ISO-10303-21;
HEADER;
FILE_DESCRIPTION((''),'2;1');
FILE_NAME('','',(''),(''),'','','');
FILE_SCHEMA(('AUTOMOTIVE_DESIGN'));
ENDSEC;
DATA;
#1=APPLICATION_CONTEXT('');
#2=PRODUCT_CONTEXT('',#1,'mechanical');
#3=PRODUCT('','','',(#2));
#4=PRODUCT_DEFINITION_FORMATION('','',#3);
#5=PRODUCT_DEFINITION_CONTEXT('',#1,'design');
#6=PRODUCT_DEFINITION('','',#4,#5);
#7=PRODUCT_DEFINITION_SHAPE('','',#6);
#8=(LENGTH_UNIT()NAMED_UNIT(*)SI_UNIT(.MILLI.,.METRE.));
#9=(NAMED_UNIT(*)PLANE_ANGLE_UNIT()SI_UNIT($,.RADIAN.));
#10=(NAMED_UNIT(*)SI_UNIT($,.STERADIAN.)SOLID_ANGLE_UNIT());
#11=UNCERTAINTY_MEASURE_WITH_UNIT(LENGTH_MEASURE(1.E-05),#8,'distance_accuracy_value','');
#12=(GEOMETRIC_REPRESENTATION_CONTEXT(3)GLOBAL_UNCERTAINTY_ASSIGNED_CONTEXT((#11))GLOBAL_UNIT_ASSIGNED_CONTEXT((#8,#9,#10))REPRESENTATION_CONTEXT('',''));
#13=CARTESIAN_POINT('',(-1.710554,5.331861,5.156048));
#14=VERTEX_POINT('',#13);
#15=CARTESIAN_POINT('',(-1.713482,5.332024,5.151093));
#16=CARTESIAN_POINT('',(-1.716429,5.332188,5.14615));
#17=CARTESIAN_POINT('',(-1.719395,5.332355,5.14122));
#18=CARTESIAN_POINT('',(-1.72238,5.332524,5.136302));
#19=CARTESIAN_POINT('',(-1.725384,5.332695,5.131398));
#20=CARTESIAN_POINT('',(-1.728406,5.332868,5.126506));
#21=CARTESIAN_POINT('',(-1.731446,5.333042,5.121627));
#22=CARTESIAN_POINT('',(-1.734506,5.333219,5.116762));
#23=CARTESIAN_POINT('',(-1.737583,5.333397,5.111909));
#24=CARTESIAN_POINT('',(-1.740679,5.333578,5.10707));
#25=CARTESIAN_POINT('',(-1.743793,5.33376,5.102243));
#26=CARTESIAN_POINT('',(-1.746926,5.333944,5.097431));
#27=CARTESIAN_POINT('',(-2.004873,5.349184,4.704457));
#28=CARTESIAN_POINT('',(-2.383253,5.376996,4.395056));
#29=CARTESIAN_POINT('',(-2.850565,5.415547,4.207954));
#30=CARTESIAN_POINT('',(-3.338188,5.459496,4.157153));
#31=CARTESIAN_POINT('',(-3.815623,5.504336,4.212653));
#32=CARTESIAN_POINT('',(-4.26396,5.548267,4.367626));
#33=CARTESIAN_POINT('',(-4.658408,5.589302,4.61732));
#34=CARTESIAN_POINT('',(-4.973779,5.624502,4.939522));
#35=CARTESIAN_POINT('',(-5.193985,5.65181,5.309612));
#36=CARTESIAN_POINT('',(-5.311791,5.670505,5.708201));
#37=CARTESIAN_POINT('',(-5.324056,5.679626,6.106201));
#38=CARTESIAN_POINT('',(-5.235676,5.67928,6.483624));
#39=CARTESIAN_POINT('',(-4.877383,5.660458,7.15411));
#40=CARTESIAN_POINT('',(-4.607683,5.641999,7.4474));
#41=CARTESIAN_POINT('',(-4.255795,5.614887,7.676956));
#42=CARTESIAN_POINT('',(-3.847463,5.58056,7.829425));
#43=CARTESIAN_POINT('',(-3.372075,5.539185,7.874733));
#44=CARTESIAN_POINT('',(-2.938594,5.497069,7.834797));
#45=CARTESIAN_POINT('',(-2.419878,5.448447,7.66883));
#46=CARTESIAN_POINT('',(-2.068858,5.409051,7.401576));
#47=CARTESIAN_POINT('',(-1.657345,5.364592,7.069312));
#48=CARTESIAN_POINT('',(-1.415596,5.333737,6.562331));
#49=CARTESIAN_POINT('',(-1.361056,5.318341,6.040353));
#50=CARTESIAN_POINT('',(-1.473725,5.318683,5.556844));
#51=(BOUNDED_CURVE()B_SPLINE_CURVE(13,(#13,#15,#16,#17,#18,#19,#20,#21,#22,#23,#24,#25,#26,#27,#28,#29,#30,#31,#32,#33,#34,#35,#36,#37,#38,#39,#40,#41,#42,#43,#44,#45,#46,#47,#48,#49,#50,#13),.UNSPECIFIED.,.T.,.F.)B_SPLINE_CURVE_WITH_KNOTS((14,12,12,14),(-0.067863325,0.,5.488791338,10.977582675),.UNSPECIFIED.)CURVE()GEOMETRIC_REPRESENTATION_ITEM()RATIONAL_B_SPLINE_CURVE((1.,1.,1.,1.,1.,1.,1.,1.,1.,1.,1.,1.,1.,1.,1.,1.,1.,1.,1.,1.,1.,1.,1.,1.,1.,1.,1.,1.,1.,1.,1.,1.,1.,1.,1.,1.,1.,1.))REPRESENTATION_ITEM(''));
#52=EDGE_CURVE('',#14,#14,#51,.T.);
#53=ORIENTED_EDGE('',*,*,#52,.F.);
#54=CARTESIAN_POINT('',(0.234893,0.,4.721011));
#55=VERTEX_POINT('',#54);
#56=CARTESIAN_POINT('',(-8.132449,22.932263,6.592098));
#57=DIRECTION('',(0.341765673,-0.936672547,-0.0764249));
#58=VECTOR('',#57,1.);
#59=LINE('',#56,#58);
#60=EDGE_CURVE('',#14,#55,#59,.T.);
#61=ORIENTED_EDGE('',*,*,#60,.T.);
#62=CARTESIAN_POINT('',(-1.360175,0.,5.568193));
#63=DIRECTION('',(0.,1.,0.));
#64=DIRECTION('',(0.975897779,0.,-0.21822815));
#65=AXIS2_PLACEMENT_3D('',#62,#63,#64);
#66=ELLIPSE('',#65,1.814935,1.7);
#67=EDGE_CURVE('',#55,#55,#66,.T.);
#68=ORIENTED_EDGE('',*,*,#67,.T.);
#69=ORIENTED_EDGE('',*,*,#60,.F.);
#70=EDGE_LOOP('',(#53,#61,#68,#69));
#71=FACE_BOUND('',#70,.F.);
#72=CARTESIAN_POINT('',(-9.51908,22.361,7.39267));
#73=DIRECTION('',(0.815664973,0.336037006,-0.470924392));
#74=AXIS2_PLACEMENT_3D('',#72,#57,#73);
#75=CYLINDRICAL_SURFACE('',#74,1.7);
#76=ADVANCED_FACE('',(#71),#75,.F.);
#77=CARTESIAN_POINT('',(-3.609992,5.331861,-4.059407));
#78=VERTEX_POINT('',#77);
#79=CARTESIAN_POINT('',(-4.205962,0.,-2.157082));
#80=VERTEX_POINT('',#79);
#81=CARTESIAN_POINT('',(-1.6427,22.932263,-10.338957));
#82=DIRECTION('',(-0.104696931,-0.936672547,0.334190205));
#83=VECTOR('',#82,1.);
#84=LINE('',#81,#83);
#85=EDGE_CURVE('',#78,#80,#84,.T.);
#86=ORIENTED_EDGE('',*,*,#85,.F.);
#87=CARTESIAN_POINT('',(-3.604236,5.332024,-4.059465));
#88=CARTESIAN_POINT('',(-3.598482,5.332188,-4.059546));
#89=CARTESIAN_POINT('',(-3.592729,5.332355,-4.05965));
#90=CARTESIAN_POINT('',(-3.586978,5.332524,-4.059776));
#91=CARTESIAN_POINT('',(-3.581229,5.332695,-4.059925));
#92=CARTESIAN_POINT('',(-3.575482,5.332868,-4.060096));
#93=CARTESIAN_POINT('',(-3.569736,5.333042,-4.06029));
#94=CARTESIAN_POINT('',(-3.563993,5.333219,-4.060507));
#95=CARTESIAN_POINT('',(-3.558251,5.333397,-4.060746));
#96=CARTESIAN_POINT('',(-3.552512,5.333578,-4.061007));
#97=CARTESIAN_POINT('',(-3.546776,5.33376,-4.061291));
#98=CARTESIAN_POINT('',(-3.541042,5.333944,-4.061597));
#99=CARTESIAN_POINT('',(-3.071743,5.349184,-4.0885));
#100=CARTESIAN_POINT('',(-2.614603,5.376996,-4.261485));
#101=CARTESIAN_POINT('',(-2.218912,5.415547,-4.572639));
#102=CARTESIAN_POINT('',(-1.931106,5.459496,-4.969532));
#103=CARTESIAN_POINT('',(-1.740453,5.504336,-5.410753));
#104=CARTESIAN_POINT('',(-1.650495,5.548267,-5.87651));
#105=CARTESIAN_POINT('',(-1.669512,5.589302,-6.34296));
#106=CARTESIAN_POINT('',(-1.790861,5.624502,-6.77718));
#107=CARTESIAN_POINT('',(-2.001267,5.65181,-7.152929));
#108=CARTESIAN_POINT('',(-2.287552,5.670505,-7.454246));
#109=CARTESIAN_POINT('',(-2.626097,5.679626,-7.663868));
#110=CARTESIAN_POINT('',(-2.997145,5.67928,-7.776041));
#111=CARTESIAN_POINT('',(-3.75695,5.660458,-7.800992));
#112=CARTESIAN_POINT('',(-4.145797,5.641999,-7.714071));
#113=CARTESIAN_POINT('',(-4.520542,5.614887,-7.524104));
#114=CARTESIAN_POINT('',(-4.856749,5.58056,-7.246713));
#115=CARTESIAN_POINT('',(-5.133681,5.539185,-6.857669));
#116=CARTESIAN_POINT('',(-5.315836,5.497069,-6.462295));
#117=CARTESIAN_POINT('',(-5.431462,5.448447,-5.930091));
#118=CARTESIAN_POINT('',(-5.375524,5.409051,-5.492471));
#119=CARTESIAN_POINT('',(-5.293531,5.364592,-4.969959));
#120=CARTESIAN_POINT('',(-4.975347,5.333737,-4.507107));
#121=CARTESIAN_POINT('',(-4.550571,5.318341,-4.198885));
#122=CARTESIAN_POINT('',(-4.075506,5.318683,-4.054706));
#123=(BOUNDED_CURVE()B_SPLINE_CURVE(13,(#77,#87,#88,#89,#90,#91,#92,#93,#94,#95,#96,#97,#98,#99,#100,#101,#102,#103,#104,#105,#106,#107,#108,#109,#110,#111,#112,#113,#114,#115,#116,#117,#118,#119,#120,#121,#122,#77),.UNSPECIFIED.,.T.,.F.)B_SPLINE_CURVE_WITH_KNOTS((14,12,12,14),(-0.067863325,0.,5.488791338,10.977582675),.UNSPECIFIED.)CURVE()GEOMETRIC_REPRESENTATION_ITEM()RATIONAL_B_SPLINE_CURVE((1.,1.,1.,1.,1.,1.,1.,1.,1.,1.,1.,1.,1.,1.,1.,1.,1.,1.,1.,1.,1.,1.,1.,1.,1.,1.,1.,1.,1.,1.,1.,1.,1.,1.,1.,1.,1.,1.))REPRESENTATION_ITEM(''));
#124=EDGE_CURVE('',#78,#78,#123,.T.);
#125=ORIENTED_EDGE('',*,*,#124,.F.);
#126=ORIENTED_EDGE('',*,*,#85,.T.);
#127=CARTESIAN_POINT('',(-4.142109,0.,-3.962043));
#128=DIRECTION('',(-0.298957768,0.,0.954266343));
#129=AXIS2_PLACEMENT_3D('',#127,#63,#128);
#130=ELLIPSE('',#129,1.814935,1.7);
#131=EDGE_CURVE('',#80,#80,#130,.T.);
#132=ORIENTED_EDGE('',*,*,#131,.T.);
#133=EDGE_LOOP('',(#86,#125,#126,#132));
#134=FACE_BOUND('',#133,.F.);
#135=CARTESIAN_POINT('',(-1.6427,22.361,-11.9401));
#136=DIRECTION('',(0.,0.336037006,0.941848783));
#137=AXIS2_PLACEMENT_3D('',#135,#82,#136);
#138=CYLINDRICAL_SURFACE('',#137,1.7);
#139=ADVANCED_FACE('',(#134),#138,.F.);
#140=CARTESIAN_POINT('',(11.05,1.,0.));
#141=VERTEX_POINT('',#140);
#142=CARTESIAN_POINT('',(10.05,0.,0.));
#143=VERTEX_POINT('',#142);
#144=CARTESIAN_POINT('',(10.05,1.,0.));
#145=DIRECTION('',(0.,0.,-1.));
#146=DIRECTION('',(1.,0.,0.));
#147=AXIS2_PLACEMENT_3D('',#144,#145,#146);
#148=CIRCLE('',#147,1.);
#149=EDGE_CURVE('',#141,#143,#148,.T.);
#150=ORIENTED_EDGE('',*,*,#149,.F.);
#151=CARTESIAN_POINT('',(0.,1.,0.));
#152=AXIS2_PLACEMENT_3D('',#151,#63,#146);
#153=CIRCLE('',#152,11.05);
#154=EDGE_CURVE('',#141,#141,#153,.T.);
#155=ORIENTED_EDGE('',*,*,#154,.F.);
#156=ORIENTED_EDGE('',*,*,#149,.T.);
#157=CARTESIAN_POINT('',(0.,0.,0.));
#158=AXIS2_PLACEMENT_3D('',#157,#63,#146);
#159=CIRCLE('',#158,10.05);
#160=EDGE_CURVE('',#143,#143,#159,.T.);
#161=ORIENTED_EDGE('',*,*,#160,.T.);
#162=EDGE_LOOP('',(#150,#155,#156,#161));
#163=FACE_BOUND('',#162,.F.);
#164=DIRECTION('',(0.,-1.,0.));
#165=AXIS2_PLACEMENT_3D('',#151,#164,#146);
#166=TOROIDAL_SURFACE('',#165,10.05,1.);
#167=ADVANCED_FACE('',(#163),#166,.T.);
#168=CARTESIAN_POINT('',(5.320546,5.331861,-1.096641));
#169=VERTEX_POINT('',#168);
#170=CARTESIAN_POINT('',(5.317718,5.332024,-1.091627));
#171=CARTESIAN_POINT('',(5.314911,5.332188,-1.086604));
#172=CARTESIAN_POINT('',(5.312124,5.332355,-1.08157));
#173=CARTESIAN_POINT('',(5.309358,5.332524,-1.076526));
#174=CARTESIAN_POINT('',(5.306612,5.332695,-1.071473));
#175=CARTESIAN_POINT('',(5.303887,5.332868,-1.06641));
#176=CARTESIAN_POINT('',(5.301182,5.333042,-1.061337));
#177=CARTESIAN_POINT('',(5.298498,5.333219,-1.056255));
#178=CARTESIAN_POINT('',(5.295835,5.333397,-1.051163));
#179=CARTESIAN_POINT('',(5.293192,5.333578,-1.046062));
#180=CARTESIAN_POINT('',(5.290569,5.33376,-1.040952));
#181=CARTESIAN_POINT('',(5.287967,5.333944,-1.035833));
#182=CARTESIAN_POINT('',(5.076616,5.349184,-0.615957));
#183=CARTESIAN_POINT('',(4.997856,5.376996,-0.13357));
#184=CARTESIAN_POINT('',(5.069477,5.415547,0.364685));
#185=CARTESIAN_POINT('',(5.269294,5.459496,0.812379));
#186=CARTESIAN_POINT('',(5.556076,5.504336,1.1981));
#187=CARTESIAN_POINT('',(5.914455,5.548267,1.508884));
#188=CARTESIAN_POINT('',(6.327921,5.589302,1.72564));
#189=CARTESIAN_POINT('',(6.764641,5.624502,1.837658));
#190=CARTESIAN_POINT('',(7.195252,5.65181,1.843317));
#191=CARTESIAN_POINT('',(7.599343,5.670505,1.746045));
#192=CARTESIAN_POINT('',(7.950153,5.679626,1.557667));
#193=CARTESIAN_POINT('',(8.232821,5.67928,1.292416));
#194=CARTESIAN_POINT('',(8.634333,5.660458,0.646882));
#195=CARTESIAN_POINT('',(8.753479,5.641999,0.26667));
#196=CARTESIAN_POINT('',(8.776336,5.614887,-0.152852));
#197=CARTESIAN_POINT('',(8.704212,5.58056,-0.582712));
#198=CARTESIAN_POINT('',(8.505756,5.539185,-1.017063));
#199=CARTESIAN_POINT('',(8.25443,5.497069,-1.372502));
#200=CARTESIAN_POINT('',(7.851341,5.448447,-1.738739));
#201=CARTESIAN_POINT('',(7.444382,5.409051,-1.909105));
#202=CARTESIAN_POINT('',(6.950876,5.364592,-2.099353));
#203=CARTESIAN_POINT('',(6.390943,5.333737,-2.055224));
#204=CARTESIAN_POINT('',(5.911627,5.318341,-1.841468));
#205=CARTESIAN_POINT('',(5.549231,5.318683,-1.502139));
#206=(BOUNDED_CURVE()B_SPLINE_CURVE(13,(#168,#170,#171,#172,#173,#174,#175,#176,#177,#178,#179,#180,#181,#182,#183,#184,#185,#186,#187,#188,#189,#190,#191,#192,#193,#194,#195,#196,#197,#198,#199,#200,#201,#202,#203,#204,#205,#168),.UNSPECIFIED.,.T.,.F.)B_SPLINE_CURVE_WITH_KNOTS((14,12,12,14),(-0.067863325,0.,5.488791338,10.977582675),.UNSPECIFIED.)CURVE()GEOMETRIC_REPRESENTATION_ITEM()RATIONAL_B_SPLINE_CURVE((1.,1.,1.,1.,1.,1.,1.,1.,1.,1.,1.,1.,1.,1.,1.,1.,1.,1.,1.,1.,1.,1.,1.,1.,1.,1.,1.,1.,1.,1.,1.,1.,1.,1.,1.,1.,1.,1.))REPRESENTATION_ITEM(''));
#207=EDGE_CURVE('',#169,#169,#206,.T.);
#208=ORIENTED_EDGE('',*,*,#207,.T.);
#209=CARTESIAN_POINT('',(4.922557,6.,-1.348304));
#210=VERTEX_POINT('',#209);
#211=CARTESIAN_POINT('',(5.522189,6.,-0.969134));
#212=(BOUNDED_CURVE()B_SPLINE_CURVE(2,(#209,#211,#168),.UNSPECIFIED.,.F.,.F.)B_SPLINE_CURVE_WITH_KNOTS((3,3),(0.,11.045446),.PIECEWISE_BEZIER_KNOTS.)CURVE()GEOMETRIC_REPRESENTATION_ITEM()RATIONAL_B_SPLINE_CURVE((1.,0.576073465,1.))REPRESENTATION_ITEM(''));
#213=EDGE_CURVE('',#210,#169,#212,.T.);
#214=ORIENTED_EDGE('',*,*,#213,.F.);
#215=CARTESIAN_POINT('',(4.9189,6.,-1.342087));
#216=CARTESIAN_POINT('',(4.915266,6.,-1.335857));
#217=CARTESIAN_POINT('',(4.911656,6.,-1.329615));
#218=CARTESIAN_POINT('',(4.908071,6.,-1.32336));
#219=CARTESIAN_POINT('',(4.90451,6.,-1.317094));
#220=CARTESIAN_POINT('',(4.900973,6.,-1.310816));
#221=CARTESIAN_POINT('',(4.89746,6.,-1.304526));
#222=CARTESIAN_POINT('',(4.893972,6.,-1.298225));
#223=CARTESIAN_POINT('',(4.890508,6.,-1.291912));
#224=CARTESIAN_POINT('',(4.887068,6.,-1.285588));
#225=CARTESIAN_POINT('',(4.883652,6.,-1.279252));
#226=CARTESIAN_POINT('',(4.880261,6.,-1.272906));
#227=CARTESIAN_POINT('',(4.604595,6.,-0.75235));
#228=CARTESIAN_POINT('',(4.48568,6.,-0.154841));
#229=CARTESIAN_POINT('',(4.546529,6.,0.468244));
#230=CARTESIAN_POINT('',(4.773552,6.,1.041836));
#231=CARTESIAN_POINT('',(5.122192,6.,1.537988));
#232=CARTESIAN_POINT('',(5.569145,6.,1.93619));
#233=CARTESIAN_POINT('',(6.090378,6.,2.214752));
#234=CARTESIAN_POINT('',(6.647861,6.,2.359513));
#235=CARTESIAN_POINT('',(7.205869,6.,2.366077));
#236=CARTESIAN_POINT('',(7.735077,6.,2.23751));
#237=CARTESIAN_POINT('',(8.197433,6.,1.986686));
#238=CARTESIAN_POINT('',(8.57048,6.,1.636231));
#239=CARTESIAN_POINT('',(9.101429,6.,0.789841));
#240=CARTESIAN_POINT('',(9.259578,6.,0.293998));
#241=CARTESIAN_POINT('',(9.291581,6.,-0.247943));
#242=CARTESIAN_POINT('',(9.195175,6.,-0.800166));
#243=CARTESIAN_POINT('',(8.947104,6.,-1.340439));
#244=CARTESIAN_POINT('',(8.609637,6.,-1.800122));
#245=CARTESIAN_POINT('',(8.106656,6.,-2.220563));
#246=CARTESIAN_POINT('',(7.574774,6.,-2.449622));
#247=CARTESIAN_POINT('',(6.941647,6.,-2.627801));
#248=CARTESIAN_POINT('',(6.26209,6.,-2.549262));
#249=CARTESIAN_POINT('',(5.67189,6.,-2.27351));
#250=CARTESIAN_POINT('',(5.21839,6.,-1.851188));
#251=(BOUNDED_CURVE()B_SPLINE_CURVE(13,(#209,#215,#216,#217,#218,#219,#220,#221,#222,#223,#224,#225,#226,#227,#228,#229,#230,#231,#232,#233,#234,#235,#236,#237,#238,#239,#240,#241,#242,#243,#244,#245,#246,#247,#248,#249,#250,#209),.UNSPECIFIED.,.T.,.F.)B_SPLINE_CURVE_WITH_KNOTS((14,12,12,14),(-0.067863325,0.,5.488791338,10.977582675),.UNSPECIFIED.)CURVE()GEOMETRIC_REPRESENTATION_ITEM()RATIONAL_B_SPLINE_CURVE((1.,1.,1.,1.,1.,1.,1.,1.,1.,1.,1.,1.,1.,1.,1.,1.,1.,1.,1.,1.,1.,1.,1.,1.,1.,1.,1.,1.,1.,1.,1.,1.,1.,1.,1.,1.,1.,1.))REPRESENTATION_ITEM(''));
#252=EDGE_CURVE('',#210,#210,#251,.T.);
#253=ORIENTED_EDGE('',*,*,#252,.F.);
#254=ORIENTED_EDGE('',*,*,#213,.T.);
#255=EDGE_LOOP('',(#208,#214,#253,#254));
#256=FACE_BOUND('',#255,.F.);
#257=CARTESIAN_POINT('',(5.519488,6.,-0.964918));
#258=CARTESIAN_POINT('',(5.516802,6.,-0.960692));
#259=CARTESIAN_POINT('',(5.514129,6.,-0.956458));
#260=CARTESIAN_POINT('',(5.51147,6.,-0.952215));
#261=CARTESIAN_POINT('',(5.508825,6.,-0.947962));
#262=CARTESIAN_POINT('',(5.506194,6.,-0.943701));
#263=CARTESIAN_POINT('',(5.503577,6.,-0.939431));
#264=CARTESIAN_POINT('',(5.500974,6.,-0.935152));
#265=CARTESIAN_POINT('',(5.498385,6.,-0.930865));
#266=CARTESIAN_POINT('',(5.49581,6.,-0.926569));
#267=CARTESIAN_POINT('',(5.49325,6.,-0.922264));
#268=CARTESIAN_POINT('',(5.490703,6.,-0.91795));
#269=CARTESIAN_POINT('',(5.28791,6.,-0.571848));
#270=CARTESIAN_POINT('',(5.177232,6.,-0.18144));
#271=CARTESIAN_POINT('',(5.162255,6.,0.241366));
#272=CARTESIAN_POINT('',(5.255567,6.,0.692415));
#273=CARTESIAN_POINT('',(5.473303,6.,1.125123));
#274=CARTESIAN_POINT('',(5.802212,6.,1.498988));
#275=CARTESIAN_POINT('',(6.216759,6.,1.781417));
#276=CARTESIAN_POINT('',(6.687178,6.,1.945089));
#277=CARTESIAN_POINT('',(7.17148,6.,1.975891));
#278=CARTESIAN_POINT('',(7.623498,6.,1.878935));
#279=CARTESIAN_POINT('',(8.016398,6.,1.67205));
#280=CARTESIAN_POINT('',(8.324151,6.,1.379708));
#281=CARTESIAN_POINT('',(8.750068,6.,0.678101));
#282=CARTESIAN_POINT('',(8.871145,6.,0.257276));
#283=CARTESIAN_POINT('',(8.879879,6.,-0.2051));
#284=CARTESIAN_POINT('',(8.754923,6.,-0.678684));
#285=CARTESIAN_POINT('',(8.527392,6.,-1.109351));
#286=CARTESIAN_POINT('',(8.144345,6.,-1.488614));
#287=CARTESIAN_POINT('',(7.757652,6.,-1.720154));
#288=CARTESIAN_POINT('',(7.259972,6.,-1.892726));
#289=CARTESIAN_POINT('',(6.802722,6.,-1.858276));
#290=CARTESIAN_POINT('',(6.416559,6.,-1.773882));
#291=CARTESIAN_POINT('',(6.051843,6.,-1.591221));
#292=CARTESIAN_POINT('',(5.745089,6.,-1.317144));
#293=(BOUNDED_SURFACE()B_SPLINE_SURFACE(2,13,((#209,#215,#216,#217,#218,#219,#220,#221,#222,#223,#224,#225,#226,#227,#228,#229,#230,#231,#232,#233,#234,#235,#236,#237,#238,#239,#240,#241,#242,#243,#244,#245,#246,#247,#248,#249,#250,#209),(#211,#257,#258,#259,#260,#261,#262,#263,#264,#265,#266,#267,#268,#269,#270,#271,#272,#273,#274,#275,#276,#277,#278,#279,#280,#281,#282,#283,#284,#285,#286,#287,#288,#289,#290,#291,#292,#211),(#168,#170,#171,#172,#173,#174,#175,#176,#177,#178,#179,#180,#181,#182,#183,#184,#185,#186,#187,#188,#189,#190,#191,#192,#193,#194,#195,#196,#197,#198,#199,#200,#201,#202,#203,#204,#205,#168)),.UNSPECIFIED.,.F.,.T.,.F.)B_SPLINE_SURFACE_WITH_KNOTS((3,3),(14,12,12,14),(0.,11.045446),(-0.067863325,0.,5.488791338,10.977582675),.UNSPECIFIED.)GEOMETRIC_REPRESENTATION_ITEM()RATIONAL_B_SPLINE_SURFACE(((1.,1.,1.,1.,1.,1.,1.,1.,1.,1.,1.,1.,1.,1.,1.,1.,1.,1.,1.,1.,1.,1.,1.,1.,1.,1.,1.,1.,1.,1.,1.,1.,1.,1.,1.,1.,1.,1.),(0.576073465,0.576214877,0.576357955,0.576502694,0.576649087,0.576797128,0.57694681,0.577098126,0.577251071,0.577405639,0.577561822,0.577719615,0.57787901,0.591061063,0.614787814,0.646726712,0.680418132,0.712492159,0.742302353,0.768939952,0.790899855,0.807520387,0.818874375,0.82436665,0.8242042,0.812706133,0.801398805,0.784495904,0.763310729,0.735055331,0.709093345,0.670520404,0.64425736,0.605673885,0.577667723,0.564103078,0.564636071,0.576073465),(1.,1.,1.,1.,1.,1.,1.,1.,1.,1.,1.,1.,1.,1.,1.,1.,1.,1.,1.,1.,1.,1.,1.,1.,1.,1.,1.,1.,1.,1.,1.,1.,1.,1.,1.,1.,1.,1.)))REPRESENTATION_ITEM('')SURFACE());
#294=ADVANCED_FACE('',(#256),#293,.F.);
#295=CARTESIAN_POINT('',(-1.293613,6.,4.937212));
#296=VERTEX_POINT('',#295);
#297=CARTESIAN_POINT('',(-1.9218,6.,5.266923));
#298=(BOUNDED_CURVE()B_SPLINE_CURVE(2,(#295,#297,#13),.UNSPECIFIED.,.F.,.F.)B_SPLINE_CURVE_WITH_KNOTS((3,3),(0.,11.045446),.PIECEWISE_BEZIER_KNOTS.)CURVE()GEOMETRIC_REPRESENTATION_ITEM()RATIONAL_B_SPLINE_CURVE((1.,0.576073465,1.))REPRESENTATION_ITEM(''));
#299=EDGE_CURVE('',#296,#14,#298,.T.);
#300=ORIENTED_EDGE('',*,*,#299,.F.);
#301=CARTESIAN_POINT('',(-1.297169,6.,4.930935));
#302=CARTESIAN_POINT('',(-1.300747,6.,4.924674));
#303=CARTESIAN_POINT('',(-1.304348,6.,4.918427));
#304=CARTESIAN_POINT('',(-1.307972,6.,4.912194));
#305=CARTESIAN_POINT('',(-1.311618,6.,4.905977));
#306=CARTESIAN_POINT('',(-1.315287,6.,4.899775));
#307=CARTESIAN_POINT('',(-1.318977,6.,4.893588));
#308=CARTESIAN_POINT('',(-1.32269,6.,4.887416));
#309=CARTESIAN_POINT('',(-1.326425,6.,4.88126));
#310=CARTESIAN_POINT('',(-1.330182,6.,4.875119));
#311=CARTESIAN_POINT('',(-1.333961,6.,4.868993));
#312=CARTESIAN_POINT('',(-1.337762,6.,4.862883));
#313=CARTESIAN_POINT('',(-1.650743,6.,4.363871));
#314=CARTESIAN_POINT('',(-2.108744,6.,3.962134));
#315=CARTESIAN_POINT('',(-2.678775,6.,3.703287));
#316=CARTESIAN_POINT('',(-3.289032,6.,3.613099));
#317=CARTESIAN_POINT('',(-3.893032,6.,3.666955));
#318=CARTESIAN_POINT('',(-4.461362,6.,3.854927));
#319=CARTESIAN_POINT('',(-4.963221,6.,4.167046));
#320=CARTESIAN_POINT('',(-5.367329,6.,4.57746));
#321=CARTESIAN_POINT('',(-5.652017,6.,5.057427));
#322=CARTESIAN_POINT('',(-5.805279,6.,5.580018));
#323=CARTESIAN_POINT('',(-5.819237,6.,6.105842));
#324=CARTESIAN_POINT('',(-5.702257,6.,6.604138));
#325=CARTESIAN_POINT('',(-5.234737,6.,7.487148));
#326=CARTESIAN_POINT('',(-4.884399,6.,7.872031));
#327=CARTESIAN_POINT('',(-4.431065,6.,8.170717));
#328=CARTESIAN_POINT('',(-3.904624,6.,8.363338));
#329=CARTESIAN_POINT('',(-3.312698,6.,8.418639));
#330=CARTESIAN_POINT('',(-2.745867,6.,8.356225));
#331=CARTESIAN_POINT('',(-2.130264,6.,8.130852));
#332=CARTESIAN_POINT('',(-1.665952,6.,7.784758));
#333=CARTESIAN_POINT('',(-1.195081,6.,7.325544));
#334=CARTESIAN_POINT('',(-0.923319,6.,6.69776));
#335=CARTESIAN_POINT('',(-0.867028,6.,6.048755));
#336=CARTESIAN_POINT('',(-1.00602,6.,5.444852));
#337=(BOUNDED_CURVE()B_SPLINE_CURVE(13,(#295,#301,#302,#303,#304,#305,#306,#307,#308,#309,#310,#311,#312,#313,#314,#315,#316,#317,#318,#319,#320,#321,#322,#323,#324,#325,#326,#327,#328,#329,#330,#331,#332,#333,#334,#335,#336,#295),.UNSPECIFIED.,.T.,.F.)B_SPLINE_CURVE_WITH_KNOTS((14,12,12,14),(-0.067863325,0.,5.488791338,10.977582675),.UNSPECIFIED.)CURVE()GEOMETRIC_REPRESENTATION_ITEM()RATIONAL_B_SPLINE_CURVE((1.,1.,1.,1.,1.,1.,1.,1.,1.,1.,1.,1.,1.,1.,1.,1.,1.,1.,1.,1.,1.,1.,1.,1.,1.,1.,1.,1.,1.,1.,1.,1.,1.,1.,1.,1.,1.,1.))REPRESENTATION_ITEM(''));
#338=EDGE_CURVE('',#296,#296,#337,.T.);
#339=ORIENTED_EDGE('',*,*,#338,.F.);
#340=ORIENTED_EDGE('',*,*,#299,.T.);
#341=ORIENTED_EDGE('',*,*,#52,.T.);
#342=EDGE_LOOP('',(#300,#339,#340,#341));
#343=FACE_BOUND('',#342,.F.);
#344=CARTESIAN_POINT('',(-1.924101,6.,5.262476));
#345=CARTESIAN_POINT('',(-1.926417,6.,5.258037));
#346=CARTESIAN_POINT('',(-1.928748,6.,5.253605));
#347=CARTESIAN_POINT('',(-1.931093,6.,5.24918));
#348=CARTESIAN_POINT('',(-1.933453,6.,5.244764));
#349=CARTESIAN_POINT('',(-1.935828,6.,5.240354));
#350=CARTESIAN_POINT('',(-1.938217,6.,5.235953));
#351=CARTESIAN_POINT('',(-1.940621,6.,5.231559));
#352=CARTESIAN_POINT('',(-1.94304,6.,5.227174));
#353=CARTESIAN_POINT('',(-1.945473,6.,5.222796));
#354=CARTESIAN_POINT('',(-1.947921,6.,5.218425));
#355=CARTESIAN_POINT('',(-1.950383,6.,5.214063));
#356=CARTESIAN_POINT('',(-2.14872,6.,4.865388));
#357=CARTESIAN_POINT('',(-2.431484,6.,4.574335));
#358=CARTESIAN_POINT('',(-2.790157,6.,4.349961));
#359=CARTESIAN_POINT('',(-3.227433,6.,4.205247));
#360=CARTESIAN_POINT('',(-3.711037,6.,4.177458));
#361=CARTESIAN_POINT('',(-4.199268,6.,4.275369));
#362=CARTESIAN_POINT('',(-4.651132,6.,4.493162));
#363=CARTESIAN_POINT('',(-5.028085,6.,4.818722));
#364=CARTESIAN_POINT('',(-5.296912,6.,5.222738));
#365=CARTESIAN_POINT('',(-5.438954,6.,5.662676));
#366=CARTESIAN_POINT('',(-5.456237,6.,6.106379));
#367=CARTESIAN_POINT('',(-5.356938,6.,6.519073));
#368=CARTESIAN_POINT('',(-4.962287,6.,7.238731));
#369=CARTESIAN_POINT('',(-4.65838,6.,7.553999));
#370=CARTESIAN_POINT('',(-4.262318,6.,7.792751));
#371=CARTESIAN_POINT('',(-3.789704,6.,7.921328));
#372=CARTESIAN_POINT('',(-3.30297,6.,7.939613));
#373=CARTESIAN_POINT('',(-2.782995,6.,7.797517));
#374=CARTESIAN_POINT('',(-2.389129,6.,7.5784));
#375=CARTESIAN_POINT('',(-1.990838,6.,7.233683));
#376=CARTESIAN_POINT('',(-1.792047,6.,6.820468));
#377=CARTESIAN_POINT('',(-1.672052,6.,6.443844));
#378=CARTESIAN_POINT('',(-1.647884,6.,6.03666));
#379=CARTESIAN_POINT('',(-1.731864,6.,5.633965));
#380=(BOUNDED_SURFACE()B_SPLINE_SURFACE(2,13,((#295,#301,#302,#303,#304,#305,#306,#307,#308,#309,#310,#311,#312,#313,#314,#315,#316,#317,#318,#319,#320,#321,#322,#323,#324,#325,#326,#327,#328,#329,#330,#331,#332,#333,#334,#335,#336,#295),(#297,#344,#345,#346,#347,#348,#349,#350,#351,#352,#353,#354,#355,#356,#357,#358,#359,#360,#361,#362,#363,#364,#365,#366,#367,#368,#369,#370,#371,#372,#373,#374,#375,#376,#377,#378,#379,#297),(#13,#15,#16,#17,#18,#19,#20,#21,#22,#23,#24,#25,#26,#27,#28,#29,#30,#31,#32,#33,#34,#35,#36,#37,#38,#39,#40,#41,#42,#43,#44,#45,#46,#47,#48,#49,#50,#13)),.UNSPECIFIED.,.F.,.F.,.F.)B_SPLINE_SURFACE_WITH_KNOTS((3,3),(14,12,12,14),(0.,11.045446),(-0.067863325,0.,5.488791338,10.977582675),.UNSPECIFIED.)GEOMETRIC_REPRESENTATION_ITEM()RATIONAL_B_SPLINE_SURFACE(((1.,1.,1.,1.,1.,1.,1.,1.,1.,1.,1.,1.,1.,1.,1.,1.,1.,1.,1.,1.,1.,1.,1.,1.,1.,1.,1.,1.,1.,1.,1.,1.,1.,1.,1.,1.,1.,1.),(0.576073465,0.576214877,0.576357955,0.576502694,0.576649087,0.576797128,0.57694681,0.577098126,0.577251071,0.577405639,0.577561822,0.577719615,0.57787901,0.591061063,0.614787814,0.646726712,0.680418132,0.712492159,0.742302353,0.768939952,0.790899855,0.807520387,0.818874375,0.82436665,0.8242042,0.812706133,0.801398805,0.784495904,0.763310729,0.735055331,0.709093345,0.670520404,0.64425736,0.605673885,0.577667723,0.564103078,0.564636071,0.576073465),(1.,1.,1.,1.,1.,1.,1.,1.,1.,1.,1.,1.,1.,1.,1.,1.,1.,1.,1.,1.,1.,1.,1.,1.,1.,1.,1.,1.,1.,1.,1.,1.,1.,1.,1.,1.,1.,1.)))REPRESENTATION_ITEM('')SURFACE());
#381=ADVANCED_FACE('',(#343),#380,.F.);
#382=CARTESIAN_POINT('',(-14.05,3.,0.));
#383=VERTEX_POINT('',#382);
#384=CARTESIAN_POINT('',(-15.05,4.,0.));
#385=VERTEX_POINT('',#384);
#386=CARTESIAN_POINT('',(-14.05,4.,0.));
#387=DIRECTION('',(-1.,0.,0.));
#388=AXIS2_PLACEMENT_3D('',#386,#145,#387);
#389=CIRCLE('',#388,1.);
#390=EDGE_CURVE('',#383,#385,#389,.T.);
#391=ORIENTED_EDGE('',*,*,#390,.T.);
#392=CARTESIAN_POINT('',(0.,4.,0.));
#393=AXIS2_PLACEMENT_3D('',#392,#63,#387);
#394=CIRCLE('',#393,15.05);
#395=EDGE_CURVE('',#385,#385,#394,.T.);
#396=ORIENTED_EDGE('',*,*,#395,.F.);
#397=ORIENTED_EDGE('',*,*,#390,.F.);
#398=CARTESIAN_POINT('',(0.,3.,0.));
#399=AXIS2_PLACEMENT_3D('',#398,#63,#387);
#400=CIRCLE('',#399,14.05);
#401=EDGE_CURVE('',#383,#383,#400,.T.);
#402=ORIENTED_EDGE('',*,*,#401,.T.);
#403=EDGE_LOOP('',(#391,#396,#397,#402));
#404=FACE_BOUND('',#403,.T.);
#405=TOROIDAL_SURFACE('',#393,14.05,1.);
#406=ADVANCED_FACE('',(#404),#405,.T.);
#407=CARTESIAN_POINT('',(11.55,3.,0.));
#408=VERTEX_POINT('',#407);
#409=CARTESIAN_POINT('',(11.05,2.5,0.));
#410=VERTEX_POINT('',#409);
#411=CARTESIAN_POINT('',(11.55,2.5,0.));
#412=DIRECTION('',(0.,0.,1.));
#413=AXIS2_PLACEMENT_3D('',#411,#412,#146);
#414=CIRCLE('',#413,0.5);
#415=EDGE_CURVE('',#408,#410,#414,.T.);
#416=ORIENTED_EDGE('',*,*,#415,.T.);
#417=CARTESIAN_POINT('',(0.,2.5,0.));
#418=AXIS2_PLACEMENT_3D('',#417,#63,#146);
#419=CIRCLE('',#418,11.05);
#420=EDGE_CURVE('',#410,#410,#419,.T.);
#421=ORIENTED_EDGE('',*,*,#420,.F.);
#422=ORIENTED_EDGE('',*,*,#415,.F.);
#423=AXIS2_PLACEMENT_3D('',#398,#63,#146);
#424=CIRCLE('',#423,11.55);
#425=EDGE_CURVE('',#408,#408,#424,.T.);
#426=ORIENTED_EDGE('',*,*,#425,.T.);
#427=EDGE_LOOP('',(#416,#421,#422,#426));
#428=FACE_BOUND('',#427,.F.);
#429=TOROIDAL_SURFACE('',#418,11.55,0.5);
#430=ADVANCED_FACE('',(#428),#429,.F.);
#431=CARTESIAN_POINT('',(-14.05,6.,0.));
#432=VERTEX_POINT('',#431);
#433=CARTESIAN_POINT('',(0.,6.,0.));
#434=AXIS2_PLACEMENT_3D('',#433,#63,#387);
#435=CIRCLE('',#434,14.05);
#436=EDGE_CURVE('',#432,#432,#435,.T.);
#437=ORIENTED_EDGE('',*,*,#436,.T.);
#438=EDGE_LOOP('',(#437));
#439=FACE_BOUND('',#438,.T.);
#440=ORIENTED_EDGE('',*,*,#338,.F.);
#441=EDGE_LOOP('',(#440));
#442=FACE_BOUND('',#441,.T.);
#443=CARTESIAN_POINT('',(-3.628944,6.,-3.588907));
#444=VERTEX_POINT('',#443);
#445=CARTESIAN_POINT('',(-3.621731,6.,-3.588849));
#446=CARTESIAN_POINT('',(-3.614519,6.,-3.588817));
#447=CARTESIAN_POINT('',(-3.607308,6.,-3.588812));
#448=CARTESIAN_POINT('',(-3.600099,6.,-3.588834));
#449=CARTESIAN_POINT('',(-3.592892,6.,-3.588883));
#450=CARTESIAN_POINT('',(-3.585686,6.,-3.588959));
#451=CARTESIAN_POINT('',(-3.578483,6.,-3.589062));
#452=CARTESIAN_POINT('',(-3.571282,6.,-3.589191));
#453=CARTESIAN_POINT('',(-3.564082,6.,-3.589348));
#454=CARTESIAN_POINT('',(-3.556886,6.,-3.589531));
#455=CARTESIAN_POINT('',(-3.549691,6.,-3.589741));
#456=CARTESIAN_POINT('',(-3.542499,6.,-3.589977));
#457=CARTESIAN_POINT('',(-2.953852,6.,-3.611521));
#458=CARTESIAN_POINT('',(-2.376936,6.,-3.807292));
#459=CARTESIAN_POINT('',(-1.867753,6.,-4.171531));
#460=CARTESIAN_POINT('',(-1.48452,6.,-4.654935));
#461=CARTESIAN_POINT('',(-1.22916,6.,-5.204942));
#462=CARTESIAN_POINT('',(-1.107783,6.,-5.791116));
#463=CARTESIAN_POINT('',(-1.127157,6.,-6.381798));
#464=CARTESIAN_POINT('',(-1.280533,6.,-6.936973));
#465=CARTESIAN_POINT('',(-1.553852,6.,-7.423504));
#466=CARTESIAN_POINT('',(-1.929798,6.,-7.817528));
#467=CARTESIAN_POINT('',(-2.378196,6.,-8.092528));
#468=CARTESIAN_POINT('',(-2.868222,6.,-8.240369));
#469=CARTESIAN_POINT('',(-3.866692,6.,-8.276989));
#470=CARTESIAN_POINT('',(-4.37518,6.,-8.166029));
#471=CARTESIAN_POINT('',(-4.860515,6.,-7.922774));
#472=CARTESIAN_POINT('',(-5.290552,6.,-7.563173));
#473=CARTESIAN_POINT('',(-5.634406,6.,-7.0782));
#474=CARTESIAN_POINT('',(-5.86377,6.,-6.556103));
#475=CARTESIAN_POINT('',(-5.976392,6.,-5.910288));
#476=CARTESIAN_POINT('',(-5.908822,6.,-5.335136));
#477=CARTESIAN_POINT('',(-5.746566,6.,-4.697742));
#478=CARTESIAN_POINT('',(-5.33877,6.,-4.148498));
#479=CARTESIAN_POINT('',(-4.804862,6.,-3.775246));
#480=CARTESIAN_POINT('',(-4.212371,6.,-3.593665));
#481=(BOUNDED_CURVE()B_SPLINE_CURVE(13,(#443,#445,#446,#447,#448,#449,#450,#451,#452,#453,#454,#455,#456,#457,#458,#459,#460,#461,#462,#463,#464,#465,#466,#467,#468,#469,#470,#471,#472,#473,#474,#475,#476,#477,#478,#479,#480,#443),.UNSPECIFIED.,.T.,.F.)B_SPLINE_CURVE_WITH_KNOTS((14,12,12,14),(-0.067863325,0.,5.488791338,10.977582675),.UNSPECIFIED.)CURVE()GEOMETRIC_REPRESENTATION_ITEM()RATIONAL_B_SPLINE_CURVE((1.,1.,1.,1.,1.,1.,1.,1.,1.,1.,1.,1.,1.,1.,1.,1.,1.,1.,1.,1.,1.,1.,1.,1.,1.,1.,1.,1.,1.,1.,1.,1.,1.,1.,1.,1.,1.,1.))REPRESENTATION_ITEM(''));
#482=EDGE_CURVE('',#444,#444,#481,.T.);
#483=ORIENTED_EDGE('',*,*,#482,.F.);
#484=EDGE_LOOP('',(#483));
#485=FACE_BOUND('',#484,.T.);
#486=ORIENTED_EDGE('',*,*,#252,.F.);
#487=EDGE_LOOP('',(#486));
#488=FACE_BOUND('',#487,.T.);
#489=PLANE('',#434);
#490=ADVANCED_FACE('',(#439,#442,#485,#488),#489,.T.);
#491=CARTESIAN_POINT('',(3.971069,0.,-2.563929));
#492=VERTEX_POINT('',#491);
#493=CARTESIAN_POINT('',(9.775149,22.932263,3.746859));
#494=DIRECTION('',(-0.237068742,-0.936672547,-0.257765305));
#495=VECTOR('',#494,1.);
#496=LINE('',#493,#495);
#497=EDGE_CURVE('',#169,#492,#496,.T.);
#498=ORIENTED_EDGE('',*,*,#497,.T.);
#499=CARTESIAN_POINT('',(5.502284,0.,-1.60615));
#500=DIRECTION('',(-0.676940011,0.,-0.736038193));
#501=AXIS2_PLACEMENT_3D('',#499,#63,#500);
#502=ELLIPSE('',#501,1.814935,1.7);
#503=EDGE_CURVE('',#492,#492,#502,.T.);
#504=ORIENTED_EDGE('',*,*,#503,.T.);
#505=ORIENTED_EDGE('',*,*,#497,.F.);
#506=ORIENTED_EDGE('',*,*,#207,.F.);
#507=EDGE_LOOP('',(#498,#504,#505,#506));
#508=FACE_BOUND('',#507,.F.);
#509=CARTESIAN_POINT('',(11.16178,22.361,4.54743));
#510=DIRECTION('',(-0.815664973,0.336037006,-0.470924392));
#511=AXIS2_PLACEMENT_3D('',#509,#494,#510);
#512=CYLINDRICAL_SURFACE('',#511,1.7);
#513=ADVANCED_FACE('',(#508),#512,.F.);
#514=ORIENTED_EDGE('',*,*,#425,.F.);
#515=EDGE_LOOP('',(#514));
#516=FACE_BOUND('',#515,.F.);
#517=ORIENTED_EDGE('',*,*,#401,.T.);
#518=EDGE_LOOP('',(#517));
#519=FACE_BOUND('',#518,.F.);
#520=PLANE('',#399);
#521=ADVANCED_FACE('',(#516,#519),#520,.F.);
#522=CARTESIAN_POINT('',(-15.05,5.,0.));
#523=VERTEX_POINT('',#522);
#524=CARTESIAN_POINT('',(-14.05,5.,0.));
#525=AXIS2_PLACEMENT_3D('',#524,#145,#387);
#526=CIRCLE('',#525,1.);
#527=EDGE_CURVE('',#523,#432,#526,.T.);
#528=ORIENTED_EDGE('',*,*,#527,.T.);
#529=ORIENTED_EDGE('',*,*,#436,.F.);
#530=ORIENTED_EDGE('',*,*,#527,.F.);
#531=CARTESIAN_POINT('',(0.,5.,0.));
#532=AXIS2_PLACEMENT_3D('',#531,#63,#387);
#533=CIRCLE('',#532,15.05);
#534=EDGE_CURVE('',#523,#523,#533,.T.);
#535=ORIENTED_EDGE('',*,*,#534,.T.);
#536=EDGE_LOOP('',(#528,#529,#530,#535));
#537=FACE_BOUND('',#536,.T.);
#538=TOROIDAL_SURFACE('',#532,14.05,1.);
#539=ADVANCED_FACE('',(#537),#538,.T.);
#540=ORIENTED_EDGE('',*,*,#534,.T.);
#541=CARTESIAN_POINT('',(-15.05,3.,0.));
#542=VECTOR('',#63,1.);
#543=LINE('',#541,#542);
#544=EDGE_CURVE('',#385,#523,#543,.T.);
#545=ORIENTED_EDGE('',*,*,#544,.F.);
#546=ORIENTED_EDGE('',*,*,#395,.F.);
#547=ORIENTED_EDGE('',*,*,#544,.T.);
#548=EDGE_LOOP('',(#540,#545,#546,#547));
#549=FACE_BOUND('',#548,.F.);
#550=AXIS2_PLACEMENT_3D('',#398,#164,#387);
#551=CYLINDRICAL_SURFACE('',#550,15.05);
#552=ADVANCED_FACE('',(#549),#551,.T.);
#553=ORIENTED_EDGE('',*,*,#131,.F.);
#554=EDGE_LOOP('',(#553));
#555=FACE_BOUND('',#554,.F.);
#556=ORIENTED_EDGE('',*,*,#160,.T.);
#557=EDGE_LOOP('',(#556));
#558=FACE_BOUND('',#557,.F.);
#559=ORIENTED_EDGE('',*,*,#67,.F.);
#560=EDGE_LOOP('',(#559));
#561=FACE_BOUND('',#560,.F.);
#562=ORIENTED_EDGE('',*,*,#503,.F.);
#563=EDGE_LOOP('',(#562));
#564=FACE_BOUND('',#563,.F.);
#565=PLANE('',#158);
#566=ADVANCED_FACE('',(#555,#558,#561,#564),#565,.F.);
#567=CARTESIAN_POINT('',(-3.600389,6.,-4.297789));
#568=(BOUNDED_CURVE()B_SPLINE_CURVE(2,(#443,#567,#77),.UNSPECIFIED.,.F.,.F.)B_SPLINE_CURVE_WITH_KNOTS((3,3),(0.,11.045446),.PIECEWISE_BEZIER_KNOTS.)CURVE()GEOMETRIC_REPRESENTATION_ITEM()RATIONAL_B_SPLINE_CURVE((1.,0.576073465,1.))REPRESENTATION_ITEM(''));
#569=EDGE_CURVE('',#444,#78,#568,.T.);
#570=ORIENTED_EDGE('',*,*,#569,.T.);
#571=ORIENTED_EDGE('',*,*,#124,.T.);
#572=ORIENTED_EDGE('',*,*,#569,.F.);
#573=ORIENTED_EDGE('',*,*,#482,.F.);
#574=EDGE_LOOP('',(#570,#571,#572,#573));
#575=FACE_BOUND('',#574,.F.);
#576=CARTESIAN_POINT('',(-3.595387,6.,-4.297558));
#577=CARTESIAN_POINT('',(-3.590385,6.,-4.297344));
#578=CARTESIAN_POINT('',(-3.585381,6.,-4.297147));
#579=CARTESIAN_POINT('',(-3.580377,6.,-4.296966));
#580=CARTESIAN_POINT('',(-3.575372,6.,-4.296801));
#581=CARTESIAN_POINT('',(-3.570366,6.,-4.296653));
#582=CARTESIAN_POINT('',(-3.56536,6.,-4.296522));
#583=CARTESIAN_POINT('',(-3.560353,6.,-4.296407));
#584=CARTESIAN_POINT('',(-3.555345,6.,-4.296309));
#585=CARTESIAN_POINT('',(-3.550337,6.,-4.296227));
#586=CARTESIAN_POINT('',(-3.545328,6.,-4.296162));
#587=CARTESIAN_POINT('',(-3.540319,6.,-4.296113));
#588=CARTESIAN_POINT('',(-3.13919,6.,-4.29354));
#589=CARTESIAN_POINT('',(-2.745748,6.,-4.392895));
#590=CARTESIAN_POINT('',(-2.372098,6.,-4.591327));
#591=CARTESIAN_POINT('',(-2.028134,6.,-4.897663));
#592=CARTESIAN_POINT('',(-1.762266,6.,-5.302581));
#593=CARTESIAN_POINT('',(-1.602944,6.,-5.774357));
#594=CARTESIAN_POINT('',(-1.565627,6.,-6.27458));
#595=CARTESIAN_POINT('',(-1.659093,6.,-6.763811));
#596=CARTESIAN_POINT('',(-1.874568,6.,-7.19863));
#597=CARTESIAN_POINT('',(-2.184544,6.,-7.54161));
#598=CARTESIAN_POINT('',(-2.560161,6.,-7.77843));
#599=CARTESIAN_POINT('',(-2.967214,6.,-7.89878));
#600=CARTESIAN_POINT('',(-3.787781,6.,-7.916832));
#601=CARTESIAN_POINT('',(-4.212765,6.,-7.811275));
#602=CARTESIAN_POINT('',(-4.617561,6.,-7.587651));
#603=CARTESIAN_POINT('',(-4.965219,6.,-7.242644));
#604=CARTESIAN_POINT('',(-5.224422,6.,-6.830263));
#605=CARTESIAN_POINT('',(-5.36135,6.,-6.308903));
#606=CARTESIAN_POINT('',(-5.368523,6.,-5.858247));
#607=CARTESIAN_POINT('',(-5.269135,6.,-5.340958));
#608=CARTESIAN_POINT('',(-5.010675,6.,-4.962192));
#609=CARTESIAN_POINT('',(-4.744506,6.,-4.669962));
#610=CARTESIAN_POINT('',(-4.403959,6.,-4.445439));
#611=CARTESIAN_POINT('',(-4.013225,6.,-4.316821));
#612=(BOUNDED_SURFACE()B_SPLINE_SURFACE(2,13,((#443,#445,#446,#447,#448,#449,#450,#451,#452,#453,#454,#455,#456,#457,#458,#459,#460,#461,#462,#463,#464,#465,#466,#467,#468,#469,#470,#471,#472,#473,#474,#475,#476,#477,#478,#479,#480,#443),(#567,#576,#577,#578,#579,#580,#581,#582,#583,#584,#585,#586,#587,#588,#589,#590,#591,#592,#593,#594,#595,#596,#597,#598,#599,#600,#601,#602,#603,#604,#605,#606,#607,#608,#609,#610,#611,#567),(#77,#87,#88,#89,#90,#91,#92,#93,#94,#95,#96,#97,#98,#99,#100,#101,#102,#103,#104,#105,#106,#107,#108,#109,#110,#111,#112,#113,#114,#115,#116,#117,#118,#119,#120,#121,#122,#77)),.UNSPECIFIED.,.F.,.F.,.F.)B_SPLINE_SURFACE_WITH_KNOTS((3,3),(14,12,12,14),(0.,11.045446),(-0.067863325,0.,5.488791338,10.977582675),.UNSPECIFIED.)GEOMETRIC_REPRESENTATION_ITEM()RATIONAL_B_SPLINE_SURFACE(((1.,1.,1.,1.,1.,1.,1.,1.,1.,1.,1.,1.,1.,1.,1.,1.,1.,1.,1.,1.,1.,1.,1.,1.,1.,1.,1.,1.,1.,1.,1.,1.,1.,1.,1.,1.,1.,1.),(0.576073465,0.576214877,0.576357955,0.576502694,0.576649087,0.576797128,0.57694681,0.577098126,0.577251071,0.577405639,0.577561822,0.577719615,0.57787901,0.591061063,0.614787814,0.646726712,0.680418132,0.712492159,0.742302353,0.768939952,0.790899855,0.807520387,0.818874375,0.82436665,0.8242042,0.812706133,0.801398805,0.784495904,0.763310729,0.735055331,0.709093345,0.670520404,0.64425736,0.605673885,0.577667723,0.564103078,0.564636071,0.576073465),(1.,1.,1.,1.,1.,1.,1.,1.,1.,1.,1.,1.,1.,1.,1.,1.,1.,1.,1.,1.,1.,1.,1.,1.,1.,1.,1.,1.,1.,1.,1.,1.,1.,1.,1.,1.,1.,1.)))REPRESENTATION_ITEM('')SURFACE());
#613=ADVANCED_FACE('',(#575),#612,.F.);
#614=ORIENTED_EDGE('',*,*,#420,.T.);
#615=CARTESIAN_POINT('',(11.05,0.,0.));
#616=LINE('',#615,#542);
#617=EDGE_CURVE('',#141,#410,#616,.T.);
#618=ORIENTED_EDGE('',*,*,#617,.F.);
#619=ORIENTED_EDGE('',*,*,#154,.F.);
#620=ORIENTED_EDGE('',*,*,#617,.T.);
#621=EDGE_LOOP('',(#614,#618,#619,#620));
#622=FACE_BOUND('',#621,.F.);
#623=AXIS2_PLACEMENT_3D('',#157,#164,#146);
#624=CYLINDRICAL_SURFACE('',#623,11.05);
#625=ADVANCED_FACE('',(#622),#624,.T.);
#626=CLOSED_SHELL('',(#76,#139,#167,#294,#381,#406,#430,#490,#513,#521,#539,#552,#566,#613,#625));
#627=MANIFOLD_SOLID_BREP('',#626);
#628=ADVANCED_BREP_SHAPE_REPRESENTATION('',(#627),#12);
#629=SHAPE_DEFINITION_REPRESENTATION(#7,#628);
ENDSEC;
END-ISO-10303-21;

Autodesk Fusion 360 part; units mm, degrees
sketch "Schizzo1" plane through (0, 0, 0) normal (0, 1, 0) x (1, 0, 0)
  circle A0 centre (0, 0) radius 11.05
  dimension "d1" = 22.1
extrude "Estrusione1" add sketch "Schizzo1" along normal blind 3
sketch "Schizzo2" plane through (0, 3, 0) normal (0, 1, 0) x (-1, 0, 0)
  circle A0 centre (0, 0) radius 11.05
  circle A1 centre (0, 0) radius 15.05
  dimension "d4" = 4
extrude "Estrusione2" add sketch "Schizzo2" along normal blind 3 contours A0 | A1
fillet "Raccordo1" radius 1 3 edges at (14.0315, 6, -5.4423) (14.0315, 3, -5.4423) (-10.3022, 0, 3.9959)
fillet "Raccordo2" radius 0.5 1 edges at (-10.3022, 3, 3.9959)
ref_plane "Piano di lavoro1" through (0, 4.6647, 13.1079) normal (0, -0.3353, -0.9421) x (1, 0, 0)
sketch "Schizzo4" plane through (0, 6, 0) normal (0, 1, 0) x (-1, 0, 0)
  circle A0 centre (0, 0) radius 14.05
  circle A1 centre (-7, 0) radius 1.6
  line L0 (0, 0) -> (-11, 0)
  line L1 (0, 0) -> (5.674, -9.8276)
  line L2 (0, 0) -> (5.674, 9.8276)
  circle A2 centre (3.5, -6.0622) radius 1.6
  circle A3 centre (3.5, 6.0622) radius 1.6
  dimension "d12" = 3.2
  dimension "d13" = 120
  dimension "d14" = 120
ref_plane "Piano di lavoro3" through (-4.0972, 5.9367, 13.0728) normal (0.1047, 0.9367, -0.3342) x (-0.9938, 0.1111, 0)
ref_plane "Piano di lavoro4" through (-1.5836, 28.4168, 5.0526) normal (0.1047, 0.9367, -0.3342) x (-0.9938, 0.1111, 0)
hole "Foratura1" at (-1.6427, 22.361, -11.9401) direction (-0.1047, -0.9367, 0.3342) diameter 3.4 depth 27 tip angle 118
pattern_circular "Serie C1" count 3 over 240 about axis through (0, 3.5, 0) along (0, 1, 0) both ways of "Foratura1"
fillet "Raccordo3" radius 0.5 3 edges at (8.2499, 6, 1.3806) (-5.3206, 6, 6.4543) (-2.9293, 6, -7.8349)
